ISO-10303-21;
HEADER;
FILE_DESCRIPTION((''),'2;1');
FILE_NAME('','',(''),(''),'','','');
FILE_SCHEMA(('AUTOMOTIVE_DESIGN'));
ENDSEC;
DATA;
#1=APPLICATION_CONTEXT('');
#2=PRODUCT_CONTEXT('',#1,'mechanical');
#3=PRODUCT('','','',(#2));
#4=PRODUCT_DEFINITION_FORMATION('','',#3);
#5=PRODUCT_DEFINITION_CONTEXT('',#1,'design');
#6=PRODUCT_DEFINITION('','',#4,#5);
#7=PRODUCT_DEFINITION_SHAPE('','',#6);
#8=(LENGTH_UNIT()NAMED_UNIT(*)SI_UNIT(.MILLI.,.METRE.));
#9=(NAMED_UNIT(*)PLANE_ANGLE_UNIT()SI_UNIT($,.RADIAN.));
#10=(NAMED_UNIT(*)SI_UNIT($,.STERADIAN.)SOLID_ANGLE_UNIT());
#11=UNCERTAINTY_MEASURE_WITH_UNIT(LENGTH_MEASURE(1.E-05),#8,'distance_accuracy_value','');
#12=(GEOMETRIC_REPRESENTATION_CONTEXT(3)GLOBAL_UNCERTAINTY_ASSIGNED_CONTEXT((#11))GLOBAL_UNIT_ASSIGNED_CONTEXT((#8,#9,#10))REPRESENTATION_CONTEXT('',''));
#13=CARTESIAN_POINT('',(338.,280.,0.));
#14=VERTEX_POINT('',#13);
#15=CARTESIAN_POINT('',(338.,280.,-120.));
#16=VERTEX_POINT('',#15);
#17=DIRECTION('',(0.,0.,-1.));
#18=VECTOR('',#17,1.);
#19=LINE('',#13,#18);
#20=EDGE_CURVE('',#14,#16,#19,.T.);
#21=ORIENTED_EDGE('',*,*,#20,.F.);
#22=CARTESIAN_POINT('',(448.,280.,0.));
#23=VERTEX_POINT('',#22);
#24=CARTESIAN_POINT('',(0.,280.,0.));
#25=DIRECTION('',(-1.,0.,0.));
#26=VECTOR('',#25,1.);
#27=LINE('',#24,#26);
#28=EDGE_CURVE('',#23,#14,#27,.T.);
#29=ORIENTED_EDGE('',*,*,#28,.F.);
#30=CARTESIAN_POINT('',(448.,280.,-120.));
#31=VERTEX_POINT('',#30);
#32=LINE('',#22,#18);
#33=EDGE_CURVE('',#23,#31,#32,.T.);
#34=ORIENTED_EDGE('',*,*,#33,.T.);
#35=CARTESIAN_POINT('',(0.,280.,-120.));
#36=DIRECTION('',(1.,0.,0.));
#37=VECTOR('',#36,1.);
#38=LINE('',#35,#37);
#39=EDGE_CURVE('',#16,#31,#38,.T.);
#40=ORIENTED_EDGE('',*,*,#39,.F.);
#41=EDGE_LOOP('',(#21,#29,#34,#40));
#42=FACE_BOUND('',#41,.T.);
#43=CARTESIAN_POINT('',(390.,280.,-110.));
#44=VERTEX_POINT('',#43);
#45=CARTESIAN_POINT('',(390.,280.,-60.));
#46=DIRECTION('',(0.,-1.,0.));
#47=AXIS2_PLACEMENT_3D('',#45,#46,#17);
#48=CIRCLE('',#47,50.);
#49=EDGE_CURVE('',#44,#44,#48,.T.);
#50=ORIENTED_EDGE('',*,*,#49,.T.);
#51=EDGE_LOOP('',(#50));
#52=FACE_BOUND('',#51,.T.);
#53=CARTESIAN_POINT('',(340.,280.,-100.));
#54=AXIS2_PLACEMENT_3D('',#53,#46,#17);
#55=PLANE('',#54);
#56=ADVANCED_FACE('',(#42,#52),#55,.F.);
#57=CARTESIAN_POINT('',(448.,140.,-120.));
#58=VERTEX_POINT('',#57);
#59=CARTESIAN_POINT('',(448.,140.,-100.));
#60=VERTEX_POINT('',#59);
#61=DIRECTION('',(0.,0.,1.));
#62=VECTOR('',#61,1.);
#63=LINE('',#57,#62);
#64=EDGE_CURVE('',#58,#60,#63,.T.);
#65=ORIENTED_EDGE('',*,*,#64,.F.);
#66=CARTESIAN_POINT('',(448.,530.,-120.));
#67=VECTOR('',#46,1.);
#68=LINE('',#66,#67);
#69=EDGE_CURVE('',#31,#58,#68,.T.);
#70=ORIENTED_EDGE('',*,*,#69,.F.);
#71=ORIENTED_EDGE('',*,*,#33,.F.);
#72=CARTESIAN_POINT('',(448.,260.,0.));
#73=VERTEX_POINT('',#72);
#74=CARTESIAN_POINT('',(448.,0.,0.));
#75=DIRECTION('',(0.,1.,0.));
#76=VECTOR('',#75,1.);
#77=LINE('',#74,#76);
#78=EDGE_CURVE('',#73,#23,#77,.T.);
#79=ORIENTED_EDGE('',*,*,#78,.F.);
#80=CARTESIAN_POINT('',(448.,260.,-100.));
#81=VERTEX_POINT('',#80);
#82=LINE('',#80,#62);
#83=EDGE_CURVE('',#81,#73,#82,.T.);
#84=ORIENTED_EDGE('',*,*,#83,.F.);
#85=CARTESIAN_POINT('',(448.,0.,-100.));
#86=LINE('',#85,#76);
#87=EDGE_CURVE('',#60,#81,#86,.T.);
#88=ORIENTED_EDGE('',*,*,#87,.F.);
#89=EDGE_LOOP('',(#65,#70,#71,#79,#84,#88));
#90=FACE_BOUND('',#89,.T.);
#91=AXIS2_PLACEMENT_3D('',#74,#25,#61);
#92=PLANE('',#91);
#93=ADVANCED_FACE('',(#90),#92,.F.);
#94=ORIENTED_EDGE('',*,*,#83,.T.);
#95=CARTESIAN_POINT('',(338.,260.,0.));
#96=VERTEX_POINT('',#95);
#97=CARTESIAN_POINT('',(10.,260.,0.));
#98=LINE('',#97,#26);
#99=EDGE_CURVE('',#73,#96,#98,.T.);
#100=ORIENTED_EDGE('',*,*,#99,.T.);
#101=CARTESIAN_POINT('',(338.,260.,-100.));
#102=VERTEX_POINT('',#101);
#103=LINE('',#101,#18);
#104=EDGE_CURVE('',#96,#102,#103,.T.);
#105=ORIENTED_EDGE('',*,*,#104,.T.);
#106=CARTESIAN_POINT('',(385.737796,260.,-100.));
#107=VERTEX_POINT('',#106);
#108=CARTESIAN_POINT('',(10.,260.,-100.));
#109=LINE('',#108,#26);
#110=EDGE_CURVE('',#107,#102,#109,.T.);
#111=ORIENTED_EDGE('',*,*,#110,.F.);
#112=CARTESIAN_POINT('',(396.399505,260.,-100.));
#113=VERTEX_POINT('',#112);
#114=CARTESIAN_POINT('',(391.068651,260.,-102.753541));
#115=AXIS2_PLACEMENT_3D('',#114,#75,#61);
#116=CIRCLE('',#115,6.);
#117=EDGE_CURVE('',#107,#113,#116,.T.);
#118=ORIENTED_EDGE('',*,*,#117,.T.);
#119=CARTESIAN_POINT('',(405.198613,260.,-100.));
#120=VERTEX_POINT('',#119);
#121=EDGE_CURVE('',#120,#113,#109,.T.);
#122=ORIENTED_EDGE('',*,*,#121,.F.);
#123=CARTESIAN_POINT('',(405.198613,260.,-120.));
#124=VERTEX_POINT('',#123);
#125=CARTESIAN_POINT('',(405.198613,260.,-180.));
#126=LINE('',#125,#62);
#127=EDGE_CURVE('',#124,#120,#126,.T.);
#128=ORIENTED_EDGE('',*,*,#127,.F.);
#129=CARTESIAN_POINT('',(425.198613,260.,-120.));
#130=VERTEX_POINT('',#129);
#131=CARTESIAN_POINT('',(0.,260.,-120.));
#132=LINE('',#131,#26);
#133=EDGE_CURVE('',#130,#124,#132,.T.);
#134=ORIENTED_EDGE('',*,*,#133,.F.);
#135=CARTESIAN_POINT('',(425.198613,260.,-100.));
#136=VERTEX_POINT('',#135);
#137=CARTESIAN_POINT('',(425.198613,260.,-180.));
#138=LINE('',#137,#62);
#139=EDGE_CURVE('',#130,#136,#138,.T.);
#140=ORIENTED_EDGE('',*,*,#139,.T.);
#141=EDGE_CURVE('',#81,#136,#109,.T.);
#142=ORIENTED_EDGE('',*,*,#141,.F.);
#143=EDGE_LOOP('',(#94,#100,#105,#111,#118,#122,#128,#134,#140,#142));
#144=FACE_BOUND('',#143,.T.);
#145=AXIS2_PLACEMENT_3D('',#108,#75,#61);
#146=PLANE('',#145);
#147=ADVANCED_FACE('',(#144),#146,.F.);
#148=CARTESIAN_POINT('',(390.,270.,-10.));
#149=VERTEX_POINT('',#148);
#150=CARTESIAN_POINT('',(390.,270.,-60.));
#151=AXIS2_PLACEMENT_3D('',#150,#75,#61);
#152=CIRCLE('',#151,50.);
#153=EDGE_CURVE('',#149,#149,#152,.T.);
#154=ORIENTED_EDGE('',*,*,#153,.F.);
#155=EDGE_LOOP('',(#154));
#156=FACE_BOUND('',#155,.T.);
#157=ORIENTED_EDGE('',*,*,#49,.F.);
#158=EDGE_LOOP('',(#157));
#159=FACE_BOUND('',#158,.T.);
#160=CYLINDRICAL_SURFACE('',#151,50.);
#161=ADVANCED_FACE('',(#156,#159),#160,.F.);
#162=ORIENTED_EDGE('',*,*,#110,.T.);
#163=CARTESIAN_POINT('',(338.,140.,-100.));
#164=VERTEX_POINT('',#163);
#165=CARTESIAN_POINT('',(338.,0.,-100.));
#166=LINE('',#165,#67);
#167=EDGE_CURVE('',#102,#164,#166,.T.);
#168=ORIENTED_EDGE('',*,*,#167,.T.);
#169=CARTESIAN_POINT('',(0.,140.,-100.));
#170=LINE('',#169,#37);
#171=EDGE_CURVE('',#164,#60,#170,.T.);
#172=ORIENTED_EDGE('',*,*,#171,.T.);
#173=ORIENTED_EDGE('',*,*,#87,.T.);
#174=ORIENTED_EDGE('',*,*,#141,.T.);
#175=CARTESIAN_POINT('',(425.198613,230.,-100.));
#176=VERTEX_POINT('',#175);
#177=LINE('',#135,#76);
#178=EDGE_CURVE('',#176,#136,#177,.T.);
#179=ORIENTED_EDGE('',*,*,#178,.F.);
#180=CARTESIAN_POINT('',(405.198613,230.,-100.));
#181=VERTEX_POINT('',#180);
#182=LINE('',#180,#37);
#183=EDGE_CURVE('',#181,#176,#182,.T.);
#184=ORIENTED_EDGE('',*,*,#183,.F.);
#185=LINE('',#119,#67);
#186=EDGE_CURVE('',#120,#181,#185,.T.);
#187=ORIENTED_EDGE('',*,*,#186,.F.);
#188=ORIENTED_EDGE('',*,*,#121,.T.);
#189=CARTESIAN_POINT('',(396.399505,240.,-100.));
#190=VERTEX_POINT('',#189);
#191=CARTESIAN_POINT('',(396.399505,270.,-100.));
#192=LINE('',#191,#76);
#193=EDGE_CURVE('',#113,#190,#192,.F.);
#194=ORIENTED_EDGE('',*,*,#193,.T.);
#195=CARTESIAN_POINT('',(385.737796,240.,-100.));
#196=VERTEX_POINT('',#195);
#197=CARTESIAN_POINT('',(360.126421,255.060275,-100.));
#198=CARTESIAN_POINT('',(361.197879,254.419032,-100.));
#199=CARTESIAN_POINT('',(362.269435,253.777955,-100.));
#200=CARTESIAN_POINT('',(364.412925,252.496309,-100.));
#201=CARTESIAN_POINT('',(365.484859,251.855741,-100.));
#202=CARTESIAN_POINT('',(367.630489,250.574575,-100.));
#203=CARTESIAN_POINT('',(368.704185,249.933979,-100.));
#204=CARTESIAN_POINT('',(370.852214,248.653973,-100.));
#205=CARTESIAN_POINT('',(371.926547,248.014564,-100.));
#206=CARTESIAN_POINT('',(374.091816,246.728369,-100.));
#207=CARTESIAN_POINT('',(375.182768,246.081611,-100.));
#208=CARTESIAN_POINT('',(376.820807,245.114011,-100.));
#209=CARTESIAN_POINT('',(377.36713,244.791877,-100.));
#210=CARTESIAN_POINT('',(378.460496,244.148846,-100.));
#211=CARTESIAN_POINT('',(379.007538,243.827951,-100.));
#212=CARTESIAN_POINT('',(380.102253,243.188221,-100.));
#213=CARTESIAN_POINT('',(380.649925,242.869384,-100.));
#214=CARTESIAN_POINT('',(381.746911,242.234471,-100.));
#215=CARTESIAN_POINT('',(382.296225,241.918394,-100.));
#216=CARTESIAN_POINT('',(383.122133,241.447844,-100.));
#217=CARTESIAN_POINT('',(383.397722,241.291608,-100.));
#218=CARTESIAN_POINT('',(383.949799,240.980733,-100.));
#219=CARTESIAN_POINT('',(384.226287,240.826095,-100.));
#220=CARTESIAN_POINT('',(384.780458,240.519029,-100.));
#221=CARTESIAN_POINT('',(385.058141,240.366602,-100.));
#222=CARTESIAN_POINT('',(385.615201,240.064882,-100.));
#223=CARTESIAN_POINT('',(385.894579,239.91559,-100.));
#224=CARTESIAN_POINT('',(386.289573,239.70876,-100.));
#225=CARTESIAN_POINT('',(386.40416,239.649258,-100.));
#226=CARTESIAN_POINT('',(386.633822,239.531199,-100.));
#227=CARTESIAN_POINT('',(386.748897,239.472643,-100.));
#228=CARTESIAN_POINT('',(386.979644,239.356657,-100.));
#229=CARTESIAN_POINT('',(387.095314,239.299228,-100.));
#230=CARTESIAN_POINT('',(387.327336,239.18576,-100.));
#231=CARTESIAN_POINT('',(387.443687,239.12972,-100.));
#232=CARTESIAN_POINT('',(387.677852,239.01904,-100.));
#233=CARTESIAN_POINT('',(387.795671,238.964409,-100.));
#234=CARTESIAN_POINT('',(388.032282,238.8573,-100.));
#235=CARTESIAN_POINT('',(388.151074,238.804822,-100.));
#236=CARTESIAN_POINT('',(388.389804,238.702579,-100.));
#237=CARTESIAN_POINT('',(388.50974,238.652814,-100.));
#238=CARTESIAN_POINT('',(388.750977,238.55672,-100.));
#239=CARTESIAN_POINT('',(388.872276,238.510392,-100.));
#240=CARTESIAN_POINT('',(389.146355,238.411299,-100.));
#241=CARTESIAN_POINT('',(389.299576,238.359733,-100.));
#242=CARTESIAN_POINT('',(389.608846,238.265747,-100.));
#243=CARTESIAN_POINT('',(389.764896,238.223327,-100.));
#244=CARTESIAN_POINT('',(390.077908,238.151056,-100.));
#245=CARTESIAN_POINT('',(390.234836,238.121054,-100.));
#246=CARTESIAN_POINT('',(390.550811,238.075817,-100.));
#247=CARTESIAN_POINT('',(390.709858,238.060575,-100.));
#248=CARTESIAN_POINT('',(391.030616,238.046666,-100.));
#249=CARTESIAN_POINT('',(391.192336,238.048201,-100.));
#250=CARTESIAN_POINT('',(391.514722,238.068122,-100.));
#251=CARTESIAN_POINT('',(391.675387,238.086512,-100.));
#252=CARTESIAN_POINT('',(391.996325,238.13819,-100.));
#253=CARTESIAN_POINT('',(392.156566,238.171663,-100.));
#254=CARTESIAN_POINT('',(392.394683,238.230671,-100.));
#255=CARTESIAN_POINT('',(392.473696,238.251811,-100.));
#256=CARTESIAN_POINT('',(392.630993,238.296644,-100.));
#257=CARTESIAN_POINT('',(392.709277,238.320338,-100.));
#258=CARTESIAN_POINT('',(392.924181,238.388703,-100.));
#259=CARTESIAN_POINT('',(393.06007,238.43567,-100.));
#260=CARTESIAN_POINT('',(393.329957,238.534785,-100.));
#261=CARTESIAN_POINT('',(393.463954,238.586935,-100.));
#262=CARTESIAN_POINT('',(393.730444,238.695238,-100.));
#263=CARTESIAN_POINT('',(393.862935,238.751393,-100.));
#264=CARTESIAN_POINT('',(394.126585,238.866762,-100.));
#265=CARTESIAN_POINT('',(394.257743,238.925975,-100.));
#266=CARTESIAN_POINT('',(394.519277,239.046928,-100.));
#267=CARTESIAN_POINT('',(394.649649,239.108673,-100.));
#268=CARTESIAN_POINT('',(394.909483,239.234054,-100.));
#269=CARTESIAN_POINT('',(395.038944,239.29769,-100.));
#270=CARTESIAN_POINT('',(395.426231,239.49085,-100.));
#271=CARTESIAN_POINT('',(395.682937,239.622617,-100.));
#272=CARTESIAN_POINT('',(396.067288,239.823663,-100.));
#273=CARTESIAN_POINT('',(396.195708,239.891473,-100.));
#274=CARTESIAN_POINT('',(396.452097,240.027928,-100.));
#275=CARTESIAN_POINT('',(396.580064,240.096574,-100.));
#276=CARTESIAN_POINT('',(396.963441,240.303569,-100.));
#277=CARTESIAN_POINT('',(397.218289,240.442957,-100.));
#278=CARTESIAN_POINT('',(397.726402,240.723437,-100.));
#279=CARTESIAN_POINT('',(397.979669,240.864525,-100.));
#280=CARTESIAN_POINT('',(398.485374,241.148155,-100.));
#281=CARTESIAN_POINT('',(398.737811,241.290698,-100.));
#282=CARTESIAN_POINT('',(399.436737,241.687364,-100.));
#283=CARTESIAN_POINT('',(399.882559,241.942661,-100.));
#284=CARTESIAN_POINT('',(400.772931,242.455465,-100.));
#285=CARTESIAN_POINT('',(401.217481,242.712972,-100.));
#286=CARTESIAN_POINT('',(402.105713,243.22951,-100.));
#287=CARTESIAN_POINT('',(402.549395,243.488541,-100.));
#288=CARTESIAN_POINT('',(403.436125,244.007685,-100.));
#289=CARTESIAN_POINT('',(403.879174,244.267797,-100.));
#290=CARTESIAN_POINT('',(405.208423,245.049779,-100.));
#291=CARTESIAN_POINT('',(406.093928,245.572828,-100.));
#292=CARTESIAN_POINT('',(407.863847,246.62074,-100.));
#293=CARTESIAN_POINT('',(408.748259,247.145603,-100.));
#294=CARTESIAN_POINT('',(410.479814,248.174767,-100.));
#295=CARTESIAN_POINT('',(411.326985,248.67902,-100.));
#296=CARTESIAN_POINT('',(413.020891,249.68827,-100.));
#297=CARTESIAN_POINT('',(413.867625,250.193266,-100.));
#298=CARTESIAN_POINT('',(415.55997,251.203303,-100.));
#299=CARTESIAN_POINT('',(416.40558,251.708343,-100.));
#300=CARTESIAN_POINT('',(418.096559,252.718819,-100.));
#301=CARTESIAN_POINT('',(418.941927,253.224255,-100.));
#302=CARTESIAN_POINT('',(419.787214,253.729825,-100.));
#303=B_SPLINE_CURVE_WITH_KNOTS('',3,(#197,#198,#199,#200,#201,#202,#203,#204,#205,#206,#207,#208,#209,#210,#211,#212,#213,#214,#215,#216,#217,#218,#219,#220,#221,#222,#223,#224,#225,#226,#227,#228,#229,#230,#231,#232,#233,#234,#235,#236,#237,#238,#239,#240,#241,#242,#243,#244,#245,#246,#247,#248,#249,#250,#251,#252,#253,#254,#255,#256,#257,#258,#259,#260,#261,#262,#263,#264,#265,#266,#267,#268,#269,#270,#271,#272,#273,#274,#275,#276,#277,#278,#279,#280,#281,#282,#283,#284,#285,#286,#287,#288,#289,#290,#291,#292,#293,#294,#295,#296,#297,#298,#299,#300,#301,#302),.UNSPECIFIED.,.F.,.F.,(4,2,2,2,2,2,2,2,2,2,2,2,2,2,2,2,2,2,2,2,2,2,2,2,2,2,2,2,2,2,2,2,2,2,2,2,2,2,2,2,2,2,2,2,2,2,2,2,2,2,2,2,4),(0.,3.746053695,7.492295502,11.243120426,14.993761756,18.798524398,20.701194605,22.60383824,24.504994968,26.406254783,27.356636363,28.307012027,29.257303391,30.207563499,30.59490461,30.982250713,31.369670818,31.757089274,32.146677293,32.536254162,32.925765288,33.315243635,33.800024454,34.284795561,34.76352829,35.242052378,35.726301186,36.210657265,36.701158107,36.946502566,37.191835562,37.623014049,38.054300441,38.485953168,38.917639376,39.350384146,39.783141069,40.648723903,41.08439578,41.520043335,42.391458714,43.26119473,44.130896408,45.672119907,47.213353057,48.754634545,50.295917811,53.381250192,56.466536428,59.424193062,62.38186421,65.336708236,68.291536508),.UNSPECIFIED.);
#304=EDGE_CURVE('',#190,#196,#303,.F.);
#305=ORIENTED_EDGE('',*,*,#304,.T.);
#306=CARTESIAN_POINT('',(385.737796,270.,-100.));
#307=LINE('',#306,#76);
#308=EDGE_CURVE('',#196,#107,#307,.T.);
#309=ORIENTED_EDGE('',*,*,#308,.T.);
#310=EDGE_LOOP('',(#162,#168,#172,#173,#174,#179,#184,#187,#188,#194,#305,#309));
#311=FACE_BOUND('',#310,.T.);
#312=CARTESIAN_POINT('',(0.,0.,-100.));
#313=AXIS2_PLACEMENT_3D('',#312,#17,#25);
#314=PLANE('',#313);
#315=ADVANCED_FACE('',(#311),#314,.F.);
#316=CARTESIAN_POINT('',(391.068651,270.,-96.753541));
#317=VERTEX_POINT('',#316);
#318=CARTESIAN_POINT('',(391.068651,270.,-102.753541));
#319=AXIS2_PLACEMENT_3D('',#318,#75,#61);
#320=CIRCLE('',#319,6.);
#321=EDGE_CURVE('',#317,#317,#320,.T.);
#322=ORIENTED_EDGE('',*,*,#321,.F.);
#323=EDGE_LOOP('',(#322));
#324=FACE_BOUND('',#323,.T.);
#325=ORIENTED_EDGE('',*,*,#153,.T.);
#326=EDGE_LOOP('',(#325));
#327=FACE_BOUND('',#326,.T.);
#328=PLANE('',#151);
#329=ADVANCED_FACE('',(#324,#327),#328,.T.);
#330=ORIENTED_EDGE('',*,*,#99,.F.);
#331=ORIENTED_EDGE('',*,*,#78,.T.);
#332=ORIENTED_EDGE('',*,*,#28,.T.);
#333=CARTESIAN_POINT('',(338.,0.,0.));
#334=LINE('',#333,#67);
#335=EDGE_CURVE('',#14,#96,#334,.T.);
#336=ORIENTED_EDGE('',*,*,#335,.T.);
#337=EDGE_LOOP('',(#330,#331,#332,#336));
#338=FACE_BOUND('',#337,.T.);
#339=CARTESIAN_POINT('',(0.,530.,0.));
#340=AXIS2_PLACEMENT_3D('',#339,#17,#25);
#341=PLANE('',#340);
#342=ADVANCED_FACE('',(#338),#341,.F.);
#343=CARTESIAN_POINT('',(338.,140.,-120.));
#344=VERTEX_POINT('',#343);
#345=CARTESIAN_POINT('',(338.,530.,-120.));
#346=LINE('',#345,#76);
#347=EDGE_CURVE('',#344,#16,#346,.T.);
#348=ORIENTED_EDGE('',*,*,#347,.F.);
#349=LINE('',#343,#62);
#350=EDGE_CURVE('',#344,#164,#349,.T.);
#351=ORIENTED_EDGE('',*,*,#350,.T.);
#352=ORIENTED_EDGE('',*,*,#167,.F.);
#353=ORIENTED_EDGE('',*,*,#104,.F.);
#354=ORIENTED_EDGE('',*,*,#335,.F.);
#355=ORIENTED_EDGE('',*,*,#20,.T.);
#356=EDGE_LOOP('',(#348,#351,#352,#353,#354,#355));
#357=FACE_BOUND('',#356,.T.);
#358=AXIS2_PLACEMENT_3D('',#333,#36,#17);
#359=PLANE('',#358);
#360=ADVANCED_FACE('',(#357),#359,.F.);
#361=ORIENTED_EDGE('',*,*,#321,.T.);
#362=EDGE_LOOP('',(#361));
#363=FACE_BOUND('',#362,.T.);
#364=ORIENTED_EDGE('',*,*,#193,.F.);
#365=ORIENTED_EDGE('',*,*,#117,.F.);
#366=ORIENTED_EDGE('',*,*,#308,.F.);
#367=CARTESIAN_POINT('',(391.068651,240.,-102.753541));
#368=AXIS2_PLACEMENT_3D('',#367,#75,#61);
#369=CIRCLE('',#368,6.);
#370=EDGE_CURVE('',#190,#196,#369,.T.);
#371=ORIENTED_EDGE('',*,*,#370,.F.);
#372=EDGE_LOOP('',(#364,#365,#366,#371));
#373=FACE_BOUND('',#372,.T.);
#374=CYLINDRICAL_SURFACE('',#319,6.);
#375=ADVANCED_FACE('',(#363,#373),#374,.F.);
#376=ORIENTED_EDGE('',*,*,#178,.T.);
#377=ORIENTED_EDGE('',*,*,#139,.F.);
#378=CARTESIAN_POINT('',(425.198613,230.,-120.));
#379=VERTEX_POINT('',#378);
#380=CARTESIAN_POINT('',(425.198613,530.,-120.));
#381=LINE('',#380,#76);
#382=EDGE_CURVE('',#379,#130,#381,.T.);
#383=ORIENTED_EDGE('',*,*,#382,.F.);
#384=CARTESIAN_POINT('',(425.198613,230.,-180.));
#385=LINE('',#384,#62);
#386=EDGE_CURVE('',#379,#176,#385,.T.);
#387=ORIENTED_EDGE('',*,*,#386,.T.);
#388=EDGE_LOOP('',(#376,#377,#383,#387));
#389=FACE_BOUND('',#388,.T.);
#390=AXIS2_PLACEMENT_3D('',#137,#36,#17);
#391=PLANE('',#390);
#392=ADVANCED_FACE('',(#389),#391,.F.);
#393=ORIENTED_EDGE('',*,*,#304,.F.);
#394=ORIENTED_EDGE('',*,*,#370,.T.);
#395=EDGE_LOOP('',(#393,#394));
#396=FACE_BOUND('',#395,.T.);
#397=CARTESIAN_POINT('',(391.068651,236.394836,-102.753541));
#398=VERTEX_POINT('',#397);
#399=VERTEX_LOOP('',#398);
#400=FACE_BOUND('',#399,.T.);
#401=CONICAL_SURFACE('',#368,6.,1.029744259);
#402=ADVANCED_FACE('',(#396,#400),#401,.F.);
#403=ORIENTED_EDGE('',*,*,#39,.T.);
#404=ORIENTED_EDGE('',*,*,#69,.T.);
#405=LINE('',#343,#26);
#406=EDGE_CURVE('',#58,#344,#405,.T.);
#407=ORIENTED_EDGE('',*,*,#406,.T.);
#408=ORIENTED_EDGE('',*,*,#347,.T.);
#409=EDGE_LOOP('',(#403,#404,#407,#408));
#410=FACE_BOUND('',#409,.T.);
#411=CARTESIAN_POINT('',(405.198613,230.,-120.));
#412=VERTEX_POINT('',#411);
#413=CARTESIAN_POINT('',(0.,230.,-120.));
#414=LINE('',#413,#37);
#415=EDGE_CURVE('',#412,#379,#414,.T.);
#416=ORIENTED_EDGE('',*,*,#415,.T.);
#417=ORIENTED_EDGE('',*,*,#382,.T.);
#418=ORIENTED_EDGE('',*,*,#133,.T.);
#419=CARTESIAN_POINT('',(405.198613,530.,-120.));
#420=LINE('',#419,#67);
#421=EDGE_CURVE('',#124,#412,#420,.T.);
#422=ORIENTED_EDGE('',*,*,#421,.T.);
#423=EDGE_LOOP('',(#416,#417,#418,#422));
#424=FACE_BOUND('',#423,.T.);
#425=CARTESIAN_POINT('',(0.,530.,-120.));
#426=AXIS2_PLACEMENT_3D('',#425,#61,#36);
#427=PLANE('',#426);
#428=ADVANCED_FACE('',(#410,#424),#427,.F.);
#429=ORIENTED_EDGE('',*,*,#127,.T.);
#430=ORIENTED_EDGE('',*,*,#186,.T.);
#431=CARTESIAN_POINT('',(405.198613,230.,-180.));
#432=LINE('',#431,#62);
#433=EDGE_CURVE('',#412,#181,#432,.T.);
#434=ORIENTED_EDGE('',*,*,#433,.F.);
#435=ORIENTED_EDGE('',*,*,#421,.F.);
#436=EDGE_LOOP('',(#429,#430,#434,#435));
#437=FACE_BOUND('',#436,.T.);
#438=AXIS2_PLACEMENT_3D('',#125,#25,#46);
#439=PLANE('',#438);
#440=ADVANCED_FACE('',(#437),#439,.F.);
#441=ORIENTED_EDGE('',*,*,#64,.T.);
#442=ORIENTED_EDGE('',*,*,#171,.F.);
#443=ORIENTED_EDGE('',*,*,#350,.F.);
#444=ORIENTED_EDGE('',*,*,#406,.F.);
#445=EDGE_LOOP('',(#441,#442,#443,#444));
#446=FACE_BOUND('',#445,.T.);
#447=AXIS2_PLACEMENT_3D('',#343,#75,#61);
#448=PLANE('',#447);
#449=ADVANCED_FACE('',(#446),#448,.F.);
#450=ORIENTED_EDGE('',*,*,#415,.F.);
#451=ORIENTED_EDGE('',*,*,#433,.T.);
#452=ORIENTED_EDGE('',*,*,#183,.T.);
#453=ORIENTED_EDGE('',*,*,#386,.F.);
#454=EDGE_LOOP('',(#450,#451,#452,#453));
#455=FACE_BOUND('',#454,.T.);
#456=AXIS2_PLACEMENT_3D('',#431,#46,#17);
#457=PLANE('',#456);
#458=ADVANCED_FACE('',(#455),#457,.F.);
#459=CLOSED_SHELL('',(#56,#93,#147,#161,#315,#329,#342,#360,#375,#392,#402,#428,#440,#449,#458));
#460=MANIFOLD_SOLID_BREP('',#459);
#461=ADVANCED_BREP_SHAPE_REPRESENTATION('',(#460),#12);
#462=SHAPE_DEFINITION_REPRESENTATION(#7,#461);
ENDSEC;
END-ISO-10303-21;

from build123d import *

# Parameters (mm, degrees)
SKETCH1_W                      = 670
SKETCH1_H                      = 120
BOSS_EXTRUDE1_DEPTH            = 530
SKETCH2_W                      = 100
SKETCH2_H                      = 200
SKETCH2_W_2                    = 650
SKETCH2_H_2                    = 250
CUT_EXTRUDE1_DEPTH             = 100
SKETCH3_R                      = 50
CUT_EXTRUDE2_DEPTH             = 260
F_12_0_12_DIAMETER_HOLE2_D     = 12
F_12_0_12_DIAMETER_HOLE2_DEPTH = 30
F_12_0_12_DIAMETER_HOLE2_TIP   = 3.605163714
SKETCH8_W                      = 650
SKETCH8_H                      = 50
BOSS_EXTRUDE2_DEPTH            = 5
SKETCH9_W                      = 10
SKETCH9_H                      = 250
CUT_EXTRUDE3_DEPTH             = 717
CUT_EXTRUDE4_DEPTH             = 5
SKETCH11_W                     = 10
SKETCH11_H                     = 100
BOSS_EXTRUDE3_DEPTH            = 78
BOSS_EXTRUDE3_2_DEPTH          = 78
BOSS_EXTRUDE3_3_DEPTH          = 78
SKETCH12_W                     = 20
SKETCH12_H                     = 30
CUT_EXTRUDE5_DEPTH             = 80
SKETCH15_W                     = 30
SKETCH15_H                     = 23.536156656
SKETCH15_H_2                   = 28.986603691
CUT_EXTRUDE7_DEPTH             = 35
SHELL1_T                       = -3
SKETCH16_W                     = 14
SKETCH16_H                     = 14
CUT_EXTRUDE8_DEPTH             = 35
SKETCH17_W                     = 5.729882812
SKETCH17_H                     = 17.428393554
SKETCH17_W_2                   = 13.369726562
SKETCH17_H_2                   = 3.342431641
BOSS_EXTRUDE4_DEPTH            = 5
CUT_EXTRUDE10_DEPTH            = 863.670273187
CUT_EXTRUDE10_DEPTH_BACK       = 863.670273187
SKETCH18_W                     = 670
SKETCH18_H                     = 250
CUT_EXTRUDE11_DEPTH            = 737.002717386
CUT_EXTRUDE11_DEPTH_BACK       = 737.002717386
SKETCH19_W                     = 222
SKETCH19_H                     = 280
SKETCH19_W_2                   = 338
CUT_EXTRUDE12_DEPTH            = 538.683922021
CUT_EXTRUDE12_DEPTH_BACK       = 538.683922021
SKETCH20_W                     = 110
SKETCH20_H                     = 140


with BuildPart() as part:
    # Sketch1 → Boss-Extrude1 (new body)
    with BuildSketch(Plane(origin=(0, 0, 0), x_dir=(1, 0, 0), z_dir=(0, 1, 0))):
        with Locations((335, 60)):
            Rectangle(SKETCH1_W, SKETCH1_H)
    extrude(amount=BOSS_EXTRUDE1_DEPTH)

    # Sketch2 → Cut-Extrude1 (cut)
    with BuildSketch(Plane.XY):
        with Locations((60, 380)):
            Rectangle(SKETCH2_W, SKETCH2_H)
        with Locations((170, 380)):
            Rectangle(SKETCH2_W, SKETCH2_H)
        with Locations((280, 380)):
            Rectangle(SKETCH2_W, SKETCH2_H)
        with Locations((390, 380)):
            Rectangle(SKETCH2_W, SKETCH2_H)
        with Locations((500, 380)):
            Rectangle(SKETCH2_W, SKETCH2_H)
        with Locations((610, 380)):
            Rectangle(SKETCH2_W, SKETCH2_H)
        with Locations((335, 135)):
            Rectangle(SKETCH2_W_2, SKETCH2_H_2)
    extrude(amount=-CUT_EXTRUDE1_DEPTH, mode=Mode.SUBTRACT)

    # Sketch3 → Cut-Extrude2 (cut)
    with BuildSketch(Plane(origin=(0, 530, 0), x_dir=(1, 0, 0), z_dir=(0, 1, 0))):
        with Locations((60, 60)):
            Circle(SKETCH3_R)
        with Locations((170, 60)):
            Circle(SKETCH3_R)
        with Locations((280, 60)):
            Circle(SKETCH3_R)
        with Locations((390, 60)):
            Circle(SKETCH3_R)
        with Locations((500, 60)):
            Circle(SKETCH3_R)
        with Locations((610, 60)):
            Circle(SKETCH3_R)
    extrude(amount=-CUT_EXTRUDE2_DEPTH, mode=Mode.SUBTRACT)

    # Ø12.0 (12) Diameter Hole2
    with Locations(Plane(origin=(59.704642413, 270, -102.411697903), x_dir=(0, 0, 1), z_dir=(0, 1, 0))):
        with Locations((0, 0), (-0.195888006, 111.8520513), (0.014838595, 221.167624818), (-0.341843303, 331.364008353), (0.657723149, 441.008646429), (1.288998006, 549.811854685)):
            Hole(F_12_0_12_DIAMETER_HOLE2_D / 2, depth=F_12_0_12_DIAMETER_HOLE2_DEPTH)
            with Locations((0, 0, -(F_12_0_12_DIAMETER_HOLE2_DEPTH + F_12_0_12_DIAMETER_HOLE2_TIP / 2))):  # 118° drill point
                Cone(0, F_12_0_12_DIAMETER_HOLE2_D / 2, F_12_0_12_DIAMETER_HOLE2_TIP, mode=Mode.SUBTRACT)

    # Sketch8 → Boss-Extrude2 (add)
    with BuildSketch(Plane.XY):
        with Locations((335, 305)):
            Rectangle(SKETCH8_W, SKETCH8_H)
    extrude(amount=-BOSS_EXTRUDE2_DEPTH)

    # Sketch9 → Cut-Extrude3 (cut)
    with BuildSketch(Plane(origin=(670, 0, 0), x_dir=(0, 0, -1), z_dir=(1, 0, 0))):
        with Locations((15, 135)):
            Rectangle(SKETCH9_W, SKETCH9_H)
    extrude(amount=-CUT_EXTRUDE3_DEPTH, mode=Mode.SUBTRACT)

    # Sketch10 → Cut-Extrude4 (cut)
    with BuildSketch(Plane(origin=(0, 10, 0), x_dir=(1, 0, 0), z_dir=(0, 1, 0))):
        Polygon((365, 61.943560596), (350, 87.924322709), (320, 87.924322709), (305, 61.943560596), (320, 35.962798482), (350, 35.962798482), align=None)
    extrude(amount=-CUT_EXTRUDE4_DEPTH, mode=Mode.SUBTRACT)

    # Sketch12 → Cut-Extrude5 (cut)
    with BuildSketch(Plane.XY.offset(-100)):
        with Locations((85.198613037, 245)):
            Rectangle(SKETCH12_W, SKETCH12_H)
        with Locations((195.198613037, 245)):
            Rectangle(SKETCH12_W, SKETCH12_H)
        with Locations((305.198613037, 245)):
            Rectangle(SKETCH12_W, SKETCH12_H)
        with Locations((415.198613037, 245)):
            Rectangle(SKETCH12_W, SKETCH12_H)
        with Locations((525.198613037, 245)):
            Rectangle(SKETCH12_W, SKETCH12_H)
        with Locations((635.198613037, 245)):
            Rectangle(SKETCH12_W, SKETCH12_H)
    extrude(amount=-CUT_EXTRUDE5_DEPTH, mode=Mode.SUBTRACT)

    # Sketch17 → Boss-Extrude4 (add)
    # profile 1 of 9: a face of its own
    with BuildSketch(Plane.XY):
        with BuildLine():
            Line((527.508830928, 289.835452458), (527.508830928, 307.263846012))
            Line((527.508830928, 307.263846012), (534.861434459, 307.263846012))
            add(Edge.make_bspline(
                [(534.861434459, 307.263846012), (535.181337774, 307.258256848), (535.803061116, 307.24739446), (536.703508491, 307.139069344), (537.544992916, 306.975202489), (538.325061607, 306.737496792), (539.040841948, 306.426020155), (539.698044515, 306.051894954), (540.290333057, 305.605079277), (540.822348212, 305.090232636), (541.284521701, 304.502523111), (541.692171296, 303.852565801), (542.030284458, 303.129762281), (542.309377095, 302.341316546), (542.5243908, 301.484161689), (542.679660381, 300.560045938), (542.773357357, 299.567500804), (542.783368073, 298.883107022), (542.788518428, 298.530997273)],
                knots=[0, 0, 0, 0, 1.135059408, 2.20595691, 3.214417064, 4.174978569, 5.094187092, 5.980001006, 6.853065862, 7.720814779, 8.600404634, 9.50058483, 10.438414914, 11.426825708, 12.465239141, 13.571113463, 14.750376389, 16, 16, 16, 16], degree=3))
            add(Edge.make_bspline(
                [(542.788518428, 298.530997273), (542.781740751, 298.180151665), (542.768592871, 297.499553336), (542.676885992, 296.511518461), (542.516733301, 295.591080531), (542.296748778, 294.736450427), (542.003051046, 293.953120444), (541.654236167, 293.233205539), (541.233025793, 292.585291498), (540.753136904, 292.000029304), (540.204772188, 291.484681411), (539.587651059, 291.044279297), (538.910779309, 290.668464036), (538.169670382, 290.361903209), (537.364073889, 290.124869172), (536.495133477, 289.954199984), (535.562644449, 289.853487388), (534.920131033, 289.841584621), (534.58911581, 289.835452458)],
                knots=[0, 0, 0, 0, 1.228418252, 2.382983832, 3.470276728, 4.496757894, 5.468023682, 6.394867725, 7.292157164, 8.167372942, 9.039072913, 9.918728341, 10.815246345, 11.744296628, 12.720973084, 13.750736166, 14.841206188, 16, 16, 16, 16], degree=3))
            Line((534.58911581, 289.835452458), (527.508830928, 289.835452458))
        make_face()
        with BuildLine():
            Line((533.238713741, 291.745413395), (534.048208904, 291.745413395))
            add(Edge.make_bspline(
                [(534.048208904, 291.745413395), (534.172894012, 291.749291978), (534.413033311, 291.756761998), (534.758676231, 291.825976613), (535.075745017, 291.938271137), (535.365749176, 292.094802589), (535.623404602, 292.300450923), (535.848862806, 292.551404902), (536.04776914, 292.844737637), (536.217685755, 293.190205032), (536.364284647, 293.596533622), (536.481764702, 294.076367921), (536.592118304, 294.630928744), (536.673672739, 295.265507643), (536.740044562, 295.978448886), (536.788346679, 296.768428292), (536.812018936, 297.636801208), (536.817188964, 298.241258393), (536.819890499, 298.55711002)],
                knots=[0, 0, 0, 0, 0.728710832, 1.403472396, 2.052289494, 2.690292559, 3.321919393, 3.970736491, 4.656696891, 5.388631723, 6.217040872, 7.17856157, 8.275589967, 9.523440737, 10.918935818, 12.463926104, 14.152268318, 16, 16, 16, 16], degree=3))
            add(Edge.make_bspline(
                [(536.819890499, 298.55711002), (536.8171426, 298.871715251), (536.811863063, 299.476166083), (536.7886758, 300.343334385), (536.739579947, 301.133216935), (536.674703848, 301.843934916), (536.589660404, 302.476324031), (536.488366458, 303.031681737), (536.362441588, 303.507627045), (536.222158727, 303.914921549), (536.050140993, 304.256514038), (535.858357073, 304.554097881), (535.62547107, 304.79746827), (535.36991257, 305.004888479), (535.079348843, 305.160875844), (534.761320266, 305.273944358), (534.414185903, 305.34216807), (534.172870641, 305.349893944), (534.048208904, 305.353885075)],
                knots=[0, 0, 0, 0, 1.842836665, 3.540640921, 5.080358154, 6.47765669, 7.719902824, 8.816971715, 9.781579111, 10.601733135, 11.334613876, 12.017393917, 12.666641099, 13.29908421, 13.937911793, 14.587567384, 15.270347425, 16, 16, 16, 16], degree=3))
            Line((534.048208904, 305.353885075), (533.238713741, 305.353885075))
            Line((533.238713741, 305.353885075), (533.238713741, 291.745413395))
        make_face(mode=Mode.SUBTRACT)
    # profile 2 of 9: a face of its own
    with BuildSketch(Plane.XY):
        with Locations((547.563420772, 298.549649235)):
            Rectangle(SKETCH17_W, SKETCH17_H)
    # profile 3 of 9: a face of its own
    with BuildSketch(Plane.XY):
        Polygon((564.514324092, 307.263846012), (564.514324092, 305.115139958), (558.545696163, 305.115139958), (558.545696163, 299.862747379), (563.559343624, 299.862747379), (563.559343624, 297.714041325), (558.545696163, 297.714041325), (558.545696163, 289.835452458), (552.81581335, 289.835452458), (552.81581335, 307.263846012), align=None)
    # profile 4 of 9: a face of its own
    with BuildSketch(Plane.XY):
        Polygon((577.645305538, 307.263846012), (577.645305538, 305.115139958), (571.676677608, 305.115139958), (571.676677608, 299.862747379), (576.690325069, 299.862747379), (576.690325069, 297.714041325), (571.676677608, 297.714041325), (571.676677608, 289.835452458), (565.946794795, 289.835452458), (565.946794795, 307.263846012), align=None)
    # profile 5 of 9: a face of its own
    with BuildSketch(Plane.XY):
        with Locations((584.330168819, 287.448001286)):
            Rectangle(SKETCH17_W_2, SKETCH17_H_2)
    # profile 6 of 9: a face of its own
    with BuildSketch(Plane.XY):
        with BuildLine():
            Line((605.578484249, 307.263846012), (605.578484249, 295.602639195))
            add(Edge.make_bspline(
                [(605.578484249, 295.602639195), (605.574209777, 295.35989389), (605.565919345, 294.889083964), (605.480877158, 294.20653885), (605.349958188, 293.569747554), (605.15926554, 292.978838165), (604.911867049, 292.436847071), (604.616163877, 291.936663973), (604.260702644, 291.487723021), (603.847299908, 291.08966617), (603.386881991, 290.731670113), (602.867295001, 290.425440037), (602.293741958, 290.168488385), (601.66690529, 289.960990771), (600.988052682, 289.797299786), (600.254912883, 289.679078851), (599.467035781, 289.60781007), (598.923618241, 289.60048219), (598.643684673, 289.59670734)],
                knots=[0, 0, 0, 0, 1.108173197, 2.149326602, 3.136215123, 4.073726706, 4.978516626, 5.852185058, 6.72141202, 7.584905625, 8.467554395, 9.379216169, 10.332422268, 11.332766067, 12.390653242, 13.518530507, 14.721707419, 16, 16, 16, 16], degree=3))
            add(Edge.make_bspline(
                [(598.643684673, 289.59670734), (598.373688491, 289.600411437), (597.851346557, 289.607577482), (597.093280473, 289.679448684), (596.387523889, 289.797736542), (595.733050135, 289.960122315), (595.130189942, 290.169220301), (594.579048171, 290.42623041), (594.078350789, 290.732835498), (593.633858028, 291.090104794), (593.234289459, 291.486851767), (592.899913678, 291.940746827), (592.609043638, 292.435866034), (592.375223767, 292.980322997), (592.191754821, 293.570441519), (592.063541006, 294.20666921), (591.983676196, 294.889343196), (591.974661767, 295.359932437), (591.970012569, 295.602639195)],
                knots=[0, 0, 0, 0, 1.258901956, 2.435505865, 3.547148904, 4.59359074, 5.576649289, 6.5183682, 7.424469602, 8.307507093, 9.172751023, 10.042627298, 10.928839176, 11.845659241, 12.799442865, 13.80597989, 14.868432463, 16, 16, 16, 16], degree=3))
            Line((591.970012569, 295.602639195), (591.970012569, 307.263846012))
            Line((591.970012569, 307.263846012), (597.699895381, 307.263846012))
            Line((597.699895381, 307.263846012), (597.699895381, 295.457153889))
            add(Edge.make_bspline(
                [(597.699895381, 295.457153889), (597.700816195, 295.287996189), (597.702584578, 294.963135903), (597.729908723, 294.499051493), (597.768241004, 294.079064133), (597.828226169, 293.705517832), (597.90066041, 293.377063412), (597.989882091, 293.09281535), (598.094998068, 292.852496478), (598.225239063, 292.654232043), (598.380826623, 292.495135011), (598.55368342, 292.353231761), (598.757556996, 292.238543846), (598.987648905, 292.146224908), (599.243380948, 292.070549638), (599.526120553, 292.020376099), (599.83553351, 291.990763905), (600.049971942, 291.986424568), (600.161954402, 291.984158512)],
                knots=[0, 0, 0, 0, 1.622370975, 3.115695595, 4.458049099, 5.666011203, 6.742434742, 7.681714947, 8.519814998, 9.250928664, 9.942747364, 10.646898194, 11.389596108, 12.175933929, 13.021386247, 13.943159715, 14.925891993, 16, 16, 16, 16], degree=3))
            add(Edge.make_bspline(
                [(600.161954402, 291.984158512), (600.283927219, 291.987190593), (600.521124756, 291.993087005), (600.86597014, 292.03390861), (601.187714881, 292.103380086), (601.484890424, 292.205377303), (601.758665297, 292.332852529), (602.012761516, 292.484567923), (602.236391413, 292.674631152), (602.439076761, 292.888441291), (602.620738276, 293.128529789), (602.771757722, 293.399928575), (602.905501548, 293.697121508), (603.005823683, 294.025060118), (603.089837826, 294.379999499), (603.146989706, 294.763086929), (603.186210275, 295.174074524), (603.189394751, 295.457053988), (603.191033077, 295.602639195)],
                knots=[0, 0, 0, 0, 1.083870311, 2.107775948, 3.08105344, 4.003637981, 4.893545291, 5.761570557, 6.624657808, 7.49233129, 8.376387281, 9.291996285, 10.246843261, 11.267344133, 12.334180325, 13.486053461, 14.706643157, 16, 16, 16, 16], degree=3))
            Line((603.191033077, 295.602639195), (603.191033077, 307.263846012))
            Line((603.191033077, 307.263846012), (605.578484249, 307.263846012))
        make_face()
    # profile 7 of 9: a face of its own
    with BuildSketch(Plane.XY):
        with BuildLine():
            Line((619.731593227, 302.015183827), (616.739818477, 301.526502415))
            add(Edge.make_bspline(
                [(616.739818477, 301.526502415), (616.748849224, 301.670726223), (616.765660669, 301.939210177), (616.78429066, 302.312269209), (616.796668381, 302.625642376), (616.798628236, 302.814722915), (616.799504756, 302.899286839)],
                knots=[0, 0, 0, 0, 1.261802504, 2.348944521, 3.261585937, 4, 4, 4, 4], degree=3))
            add(Edge.make_bspline(
                [(616.799504756, 302.899286839), (616.798306068, 303.007660677), (616.795968139, 303.219033721), (616.750451916, 303.523894877), (616.694806916, 303.811547356), (616.604352699, 304.076787391), (616.488181329, 304.320314265), (616.348943917, 304.543955606), (616.184187178, 304.745078709), (615.995833421, 304.928129987), (615.778009957, 305.083200131), (615.536269472, 305.218702836), (615.269765326, 305.333844758), (614.978065514, 305.431346685), (614.660683072, 305.504624438), (614.319025281, 305.556776695), (613.952471696, 305.585673441), (613.699597795, 305.590260771), (613.568984889, 305.592630192)],
                knots=[0, 0, 0, 0, 1.079280541, 2.105035848, 3.067950317, 3.99715044, 4.889989748, 5.753421302, 6.617030865, 7.476358039, 8.364190572, 9.274590025, 10.235106994, 11.254473582, 12.337095886, 13.478601727, 14.697662529, 16, 16, 16, 16], degree=3))
            add(Edge.make_bspline(
                [(613.568984889, 305.592630192), (613.391954632, 305.58912286), (613.059112606, 305.582528579), (612.595688488, 305.495339748), (612.198743126, 305.361419257), (611.87165349, 305.163811893), (611.613188167, 304.909795747), (611.433841092, 304.593316589), (611.323009072, 304.224665915), (611.313400221, 303.959558324), (611.308367061, 303.820693775)],
                knots=[0, 0, 0, 0, 1.294917039, 2.43462794, 3.440028966, 4.347597256, 5.210608309, 6.06356377, 6.985685997, 8, 8, 8, 8], degree=3))
            add(Edge.make_bspline(
                [(611.308367061, 303.820693775), (611.317562032, 303.705133219), (611.336106628, 303.472068433), (611.47315858, 303.132808312), (611.695999602, 302.811560885), (612.009295906, 302.510664216), (612.404107796, 302.221967273), (612.884407504, 301.948533431), (613.450813789, 301.688189695), (613.862519081, 301.536023727), (614.080048656, 301.455624958)],
                knots=[0, 0, 0, 0, 0.716839541, 1.445735977, 2.240793036, 3.131329288, 4.131129903, 5.273471266, 6.559404876, 8, 8, 8, 8], degree=3))
            add(Edge.make_bspline(
                [(614.080048656, 301.455624958), (614.335934702, 301.364918412), (614.834564244, 301.188164095), (615.547657928, 300.88707802), (616.213068388, 300.5749594), (616.829579094, 300.246613346), (617.397833174, 299.90520698), (617.914851624, 299.544556457), (618.386199073, 299.173962102), (618.807001026, 298.783874588), (619.177995113, 298.378100064), (619.4958685, 297.952745357), (619.771807525, 297.51723103), (619.991113975, 297.061458502), (620.169645242, 296.594624218), (620.292698657, 296.11024444), (620.364288243, 295.609761088), (620.37516617, 295.270864226), (620.380681514, 295.099036213)],
                knots=[0, 0, 0, 0, 1.359488612, 2.649152603, 3.874964776, 5.039588756, 6.146130126, 7.193090393, 8.194917302, 9.146793662, 10.063845301, 10.944476293, 11.803344532, 12.641736646, 13.473440096, 14.302714936, 15.139439897, 16, 16, 16, 16], degree=3))
            add(Edge.make_bspline(
                [(620.380681514, 295.099036213), (620.374476075, 294.902306495), (620.362285176, 294.515820995), (620.280160209, 293.948630617), (620.138011896, 293.409496554), (619.938489338, 292.895972278), (619.681049879, 292.411946655), (619.366518754, 291.954381076), (618.996510229, 291.525099427), (618.5710008, 291.128381035), (618.102222518, 290.765302239), (617.587803957, 290.450854345), (617.034458515, 290.187092261), (616.444107988, 289.968993032), (615.81453624, 289.801373099), (615.145337453, 289.685291013), (614.438790193, 289.606619894), (613.954683001, 289.600062276), (613.70700941, 289.59670734)],
                knots=[0, 0, 0, 0, 0.972121714, 1.909782367, 2.824924061, 3.721832975, 4.62620438, 5.527836938, 6.46026819, 7.421000932, 8.398101015, 9.385579713, 10.394244048, 11.422703992, 12.491421888, 13.608778581, 14.776629625, 16, 16, 16, 16], degree=3))
            add(Edge.make_bspline(
                [(613.70700941, 289.59670734), (613.445745367, 289.599650312), (612.939893069, 289.605348413), (612.207608113, 289.66709241), (611.525297432, 289.760984454), (610.893395078, 289.899706116), (610.309273131, 290.072394336), (609.776099392, 290.288320955), (609.295310255, 290.547303481), (608.863217672, 290.843007892), (608.478306623, 291.175775461), (608.148120946, 291.551766865), (607.86942369, 291.967163224), (607.639947144, 292.421521488), (607.466477665, 292.917583541), (607.339164663, 293.449829748), (607.264537999, 294.021332449), (607.254747521, 294.414908557), (607.249700069, 294.617815586)],
                knots=[0, 0, 0, 0, 1.342201143, 2.598733168, 3.773451092, 4.878874364, 5.91991243, 6.900006476, 7.829142054, 8.72062616, 9.585588575, 10.436728592, 11.283829734, 12.149664931, 13.044964919, 13.977937424, 14.957531465, 16, 16, 16, 16], degree=3))
            add(Edge.make_bspline(
                [(607.249700069, 294.617815586), (607.250803815, 294.692425759), (607.253213998, 294.855347393), (607.260452266, 295.122772538), (607.275636683, 295.433682216), (607.29037174, 295.656130545), (607.298195171, 295.774237248)],
                knots=[0, 0, 0, 0, 0.773500207, 1.689044709, 2.77302154, 4, 4, 4, 4], degree=3))
            Line((607.298195171, 295.774237248), (610.36457777, 296.337526509))
            add(Edge.make_bspline(
                [(610.36457777, 296.337526509), (610.326952988, 296.136337493), (610.255606535, 295.754830366), (610.178678473, 295.21219969), (610.124206629, 294.733311493), (610.11767002, 294.435147371), (610.114641475, 294.297001835)],
                knots=[0, 0, 0, 0, 1.192988372, 2.262218769, 3.194850416, 4, 4, 4, 4], degree=3))
            add(Edge.make_bspline(
                [(610.114641475, 294.297001835), (610.116191817, 294.183708768), (610.119182568, 293.965156219), (610.159053378, 293.648552813), (610.215988606, 293.352999663), (610.302906772, 293.079707227), (610.411206928, 292.826307836), (610.544682453, 292.59538211), (610.704385489, 292.386485019), (610.887496571, 292.200099922), (611.094689168, 292.033628705), (611.327456494, 291.892756696), (611.58347653, 291.771733922), (611.864681562, 291.677479524), (612.167961721, 291.596080628), (612.497219749, 291.548235723), (612.849461228, 291.512043782), (613.092629543, 291.508500084), (613.218327999, 291.506668278)],
                knots=[0, 0, 0, 0, 1.135776692, 2.191015738, 3.19649269, 4.151244236, 5.061952528, 5.956281389, 6.819534407, 7.692823504, 8.571441916, 9.478554956, 10.416037156, 11.406231466, 12.450054172, 13.561596327, 14.739541482, 16, 16, 16, 16], degree=3))
            add(Edge.make_bspline(
                [(613.218327999, 291.506668278), (613.423996012, 291.510791273), (613.810619321, 291.518541853), (614.349272542, 291.616708407), (614.810575885, 291.768742445), (615.189785268, 291.991387532), (615.490778961, 292.278756613), (615.698005174, 292.637320004), (615.824813318, 293.05638326), (615.837728413, 293.355975238), (615.844524288, 293.513619419)],
                knots=[0, 0, 0, 0, 1.308765556, 2.460272085, 3.475015317, 4.388076298, 5.239673503, 6.095681635, 6.997954785, 8, 8, 8, 8], degree=3))
            add(Edge.make_bspline(
                [(615.844524288, 293.513619419), (615.833808824, 293.638242951), (615.811807312, 293.894126055), (615.644884004, 294.264515838), (615.382382362, 294.620631473), (615.016807277, 294.962984909), (614.551376589, 295.293471235), (613.986957743, 295.616730224), (613.322148235, 295.933112033), (612.83677959, 296.119639164), (612.580430889, 296.21815395)],
                knots=[0, 0, 0, 0, 0.667930748, 1.371427933, 2.146459016, 3.034714139, 4.04893387, 5.207327294, 6.525042705, 8, 8, 8, 8], degree=3))
            add(Edge.make_bspline(
                [(612.580430889, 296.21815395), (612.374354345, 296.29679374), (611.970646869, 296.450850434), (611.394079385, 296.713586304), (610.853066711, 296.987016804), (610.357486361, 297.288235735), (609.896382561, 297.599610528), (609.477036946, 297.932256792), (609.09841673, 298.284556341), (608.758710772, 298.653375077), (608.457302107, 299.038989264), (608.199448649, 299.444659231), (607.977533299, 299.866789834), (607.798609588, 300.308107488), (607.65975715, 300.767821241), (607.559616231, 301.244439392), (607.497905054, 301.739995674), (607.491630423, 302.075933546), (607.488445186, 302.246468159)],
                knots=[0, 0, 0, 0, 1.249558333, 2.447906163, 3.58867143, 4.682264114, 5.731748367, 6.739728761, 7.711906036, 8.659384707, 9.578321416, 10.481344598, 11.379544271, 12.277135726, 13.175418307, 14.097160112, 15.034047388, 16, 16, 16, 16], degree=3))
            add(Edge.make_bspline(
                [(607.488445186, 302.246468159), (607.49282555, 302.439538736), (607.501402184, 302.817565692), (607.587451154, 303.36980586), (607.719291893, 303.894921371), (607.910558542, 304.389343064), (608.156192894, 304.852853762), (608.453187669, 305.288766511), (608.804241719, 305.697593471), (609.213503754, 306.066686531), (609.657214714, 306.407618241), (610.14376173, 306.697651931), (610.658716537, 306.950861947), (611.210636666, 307.148827868), (611.791820619, 307.313252612), (612.408080529, 307.421140415), (613.056315391, 307.490701612), (613.499160755, 307.498567824), (613.725661373, 307.502591129)],
                knots=[0, 0, 0, 0, 1.01033566, 1.978209831, 2.919499157, 3.840961976, 4.746855014, 5.660740114, 6.597989116, 7.56120833, 8.541877795, 9.523498025, 10.522416858, 11.542172371, 12.589598349, 13.681636521, 14.814234488, 16, 16, 16, 16], degree=3))
            add(Edge.make_bspline(
                [(613.725661373, 307.502591129), (613.968269855, 307.498219033), (614.438190994, 307.489750488), (615.120391152, 307.426787419), (615.755073228, 307.319142339), (616.345153155, 307.171557286), (616.887304575, 306.977590666), (617.384933999, 306.742393454), (617.834452216, 306.46201507), (618.236961315, 306.139451502), (618.593086714, 305.773322851), (618.897467704, 305.361641069), (619.158701245, 304.909408454), (619.366684143, 304.412232174), (619.529870326, 303.873247147), (619.649133834, 303.29158184), (619.720420497, 302.667301443), (619.72779778, 302.236712324), (619.731593227, 302.015183827)],
                knots=[0, 0, 0, 0, 1.248314423, 2.417925914, 3.521398822, 4.558068205, 5.543720209, 6.479599284, 7.385061127, 8.263440163, 9.127722873, 10.00561236, 10.891325273, 11.808802823, 12.772251995, 13.784947978, 14.860405143, 16, 16, 16, 16], degree=3))
        make_face()
    # profile 8 of 9: a face of its own
    with BuildSketch(Plane.XY):
        Polygon((633.989153194, 307.263846012), (633.989153194, 305.115139958), (628.020525264, 305.115139958), (628.020525264, 300.340237614), (633.034172725, 300.340237614), (633.034172725, 298.191531559), (628.020525264, 298.191531559), (628.020525264, 291.984158512), (634.944133663, 291.984158512), (634.944133663, 289.835452458), (622.290642452, 289.835452458), (622.290642452, 307.263846012), align=None)
    # profile 9 of 9: a face of its own
    with BuildSketch(Plane.XY):
        with BuildLine():
            Line((636.376604366, 289.835452458), (636.376604366, 307.263846012))
            Line((636.376604366, 307.263846012), (643.990335369, 307.263846012))
            add(Edge.make_bspline(
                [(643.990335369, 307.263846012), (644.237946498, 307.261150834), (644.721600887, 307.25588639), (645.426490561, 307.189203683), (646.094808274, 307.090496236), (646.724915796, 306.949857504), (647.317873659, 306.767252686), (647.871119087, 306.542146), (648.390701058, 306.282329135), (648.864494846, 305.976472528), (649.295093616, 305.642889252), (649.669668547, 305.279483604), (649.990389523, 304.894749072), (650.250664962, 304.483256345), (650.454275633, 304.048690948), (650.59581384, 303.587791605), (650.684089268, 303.104102537), (650.695510601, 302.772834174), (650.701311397, 302.604585835)],
                knots=[0, 0, 0, 0, 1.303269877, 2.545653735, 3.724355284, 4.8584284, 5.941462088, 6.987020715, 8.000098032, 8.995332524, 9.951400474, 10.863507538, 11.737823931, 12.582415999, 13.420128714, 14.25671499, 15.114600608, 16, 16, 16, 16], degree=3))
            add(Edge.make_bspline(
                [(650.701311397, 302.604585835), (650.698282873, 302.472674957), (650.692382063, 302.215658276), (650.651041486, 301.838684287), (650.580643818, 301.480313933), (650.481036683, 301.139915259), (650.347814833, 300.820175594), (650.191279492, 300.517863507), (650.009772227, 300.230553342), (649.788675198, 299.970497982), (649.548268341, 299.722842359), (649.274558803, 299.497116911), (648.974487035, 299.288655528), (648.642526299, 299.104010513), (648.287619671, 298.928055749), (647.899038177, 298.784921972), (647.486819978, 298.644749395), (647.19793098, 298.577036306), (647.049257183, 298.54218845)],
                knots=[0, 0, 0, 0, 1.057156483, 2.059775939, 3.035078039, 3.981068617, 4.897189472, 5.80650904, 6.70770952, 7.613691521, 8.536886357, 9.470937334, 10.45233069, 11.461024139, 12.51295332, 13.623444893, 14.776929983, 16, 16, 16, 16], degree=3))
            add(Edge.make_bspline(
                [(647.049257183, 298.54218845), (647.19164695, 298.499279419), (647.467865022, 298.416041346), (647.856360945, 298.265600017), (648.211652989, 298.111536308), (648.524185739, 297.936781388), (648.807636894, 297.762122504), (649.047122259, 297.564301324), (649.255235567, 297.361673563), (649.425188343, 297.135464734), (649.570253643, 296.882344437), (649.694827156, 296.586596707), (649.815179167, 296.247423665), (649.917667348, 295.859098311), (650.004750555, 295.423699276), (650.088222437, 294.944027189), (650.153853601, 294.416024546), (650.187587341, 294.048412906), (650.2051692, 293.856815525)],
                knots=[0, 0, 0, 0, 1.149282524, 2.229462177, 3.219229774, 4.139917433, 4.995948464, 5.788695735, 6.536448429, 7.236319808, 7.968460079, 8.78645307, 9.713791991, 10.749194692, 11.887975363, 13.146018663, 14.512518948, 16, 16, 16, 16], degree=3))
            add(Edge.make_bspline(
                [(650.2051692, 293.856815525), (650.225980287, 293.627849833), (650.265975604, 293.187817268), (650.348933081, 292.554613589), (650.44386163, 291.974357025), (650.555874504, 291.44528724), (650.681301216, 290.967898855), (650.821280597, 290.540469593), (650.979920039, 290.165788217), (651.10484481, 289.941461656), (651.163880062, 289.835452458)],
                knots=[0, 0, 0, 0, 1.324580516, 2.545615266, 3.678710841, 4.711533017, 5.660403917, 6.521349952, 7.301239649, 8, 8, 8, 8], degree=3))
            Line((651.163880062, 289.835452458), (645.213904094, 289.835452458))
            add(Edge.make_bspline(
                [(645.213904094, 289.835452458), (645.12229736, 290.069847279), (644.935171241, 290.548648246), (644.7595281, 291.319414791), (644.64846922, 292.142514735), (644.635117598, 292.70994511), (644.628232479, 293.002555653)],
                knots=[0, 0, 0, 0, 0.930410518, 1.900560147, 2.917368081, 4, 4, 4, 4], degree=3))
            Line((644.628232479, 293.002555653), (644.605850124, 294.002300831))
            Line((644.605850124, 294.002300831), (644.579737377, 295.266903874))
            add(Edge.make_bspline(
                [(644.579737377, 295.266903874), (644.573694669, 295.477395004), (644.562357007, 295.872330118), (644.469348432, 296.426164013), (644.30178735, 296.894645884), (644.073222546, 297.287223005), (643.766741442, 297.590613479), (643.39104803, 297.804152917), (642.950456912, 297.93396284), (642.634664848, 297.946292392), (642.468335247, 297.952786442)],
                knots=[0, 0, 0, 0, 1.295300309, 2.430314163, 3.439929415, 4.342995669, 5.203512789, 6.060756153, 6.978588463, 8, 8, 8, 8], degree=3))
            Line((642.468335247, 297.952786442), (642.106487178, 297.952786442))
            Line((642.106487178, 297.952786442), (642.106487178, 289.835452458))
            Line((642.106487178, 289.835452458), (636.376604366, 289.835452458))
        make_face()
        with BuildLine():
            Line((642.106487178, 299.862747379), (642.617550945, 299.862747379))
            add(Edge.make_bspline(
                [(642.617550945, 299.862747379), (642.722054451, 299.865172716), (642.925280724, 299.869889229), (643.220054897, 299.898289891), (643.494111408, 299.951809873), (643.749840966, 300.021017819), (643.984372137, 300.114851792), (644.200147241, 300.225818296), (644.391160406, 300.362685327), (644.565327067, 300.516342321), (644.718148635, 300.691986294), (644.850351299, 300.889034217), (644.961199162, 301.106225057), (645.056078491, 301.342818683), (645.125883912, 301.600830857), (645.173262731, 301.879472914), (645.203404658, 302.177423605), (645.207875435, 302.383174491), (645.210173702, 302.488943669)],
                knots=[0, 0, 0, 0, 1.184986479, 2.304423995, 3.352332712, 4.347714965, 5.303263624, 6.211353909, 7.091434645, 7.960150225, 8.839440182, 9.723126897, 10.64371617, 11.599264829, 12.608232147, 13.667459739, 14.800924404, 16, 16, 16, 16], degree=3))
            add(Edge.make_bspline(
                [(645.210173702, 302.488943669), (645.207875435, 302.594712847), (645.203404658, 302.800463732), (645.173262731, 303.098414423), (645.125883912, 303.37705648), (645.056078491, 303.635068654), (644.961199162, 303.87166228), (644.850351299, 304.08885312), (644.718148635, 304.285901043), (644.565327067, 304.461545017), (644.391160406, 304.61520201), (644.200147241, 304.752069041), (643.984372137, 304.863035546), (643.749840966, 304.956869518), (643.494111408, 305.026077464), (643.220054897, 305.079597446), (642.925280724, 305.107998108), (642.722054451, 305.112714621), (642.617550945, 305.115139958)],
                knots=[0, 0, 0, 0, 1.199075596, 2.332540261, 3.391767853, 4.400735171, 5.35628383, 6.276873103, 7.160559818, 8.039849775, 8.908565355, 9.788646091, 10.696736376, 11.652285035, 12.647667288, 13.695576005, 14.815013521, 16, 16, 16, 16], degree=3))
            Line((642.617550945, 305.115139958), (642.106487178, 305.115139958))
            Line((642.106487178, 305.115139958), (642.106487178, 299.862747379))
        make_face(mode=Mode.SUBTRACT)
    extrude(amount=BOSS_EXTRUDE4_DEPTH)

    # Sketch18 → Cut-Extrude10 (cut, two sides: drawn at the far end of the back side and taken through both)
    with BuildSketch(Plane.XY.offset(-CUT_EXTRUDE10_DEPTH_BACK)):
        with Locations((335, 405)):
            Rectangle(SKETCH18_W, SKETCH18_H)
    extrude(amount=CUT_EXTRUDE10_DEPTH + CUT_EXTRUDE10_DEPTH_BACK, mode=Mode.SUBTRACT)

    # Sketch19 → Cut-Extrude11 (cut, two sides: drawn at the far end of the back side and taken through both)
    with BuildSketch(Plane(origin=(0, 0, -120), x_dir=(-1, 0, 0), z_dir=(0, 0, -1)).offset(-CUT_EXTRUDE11_DEPTH_BACK)):
        with Locations((-559, 140)):
            Rectangle(SKETCH19_W, SKETCH19_H)
        with Locations((-169, 140)):
            Rectangle(SKETCH19_W_2, SKETCH19_H)
    extrude(amount=CUT_EXTRUDE11_DEPTH + CUT_EXTRUDE11_DEPTH_BACK, mode=Mode.SUBTRACT)

    # Sketch20 → Cut-Extrude12 (cut, two sides: drawn at the far end of the back side and taken through both)
    with BuildSketch(Plane.XY.offset(-100).offset(-CUT_EXTRUDE12_DEPTH_BACK)):
        with Locations((393, 70)):
            Rectangle(SKETCH20_W, SKETCH20_H)
    extrude(amount=CUT_EXTRUDE12_DEPTH + CUT_EXTRUDE12_DEPTH_BACK, mode=Mode.SUBTRACT)


with BuildPart() as body_2:
    # Sketch11 → Boss-Extrude3 (new body)
    with BuildSketch(Plane.XY.offset(-100)):
        with Locations((255, 60)):
            Rectangle(SKETCH11_W, SKETCH11_H)
    extrude(amount=BOSS_EXTRUDE3_DEPTH)


with BuildPart() as body_3:
    # Sketch11 → Boss-Extrude3 2 (new body)
    with BuildSketch(Plane.XY.offset(-100)):
        with Locations((415, 60)):
            Rectangle(SKETCH11_W, SKETCH11_H)
    extrude(amount=BOSS_EXTRUDE3_2_DEPTH)


with BuildPart() as body_4:
    # Sketch11 → Boss-Extrude3 3 (new body)
    with BuildSketch(Plane.XY.offset(-100)):
        Polygon((25, 198.45686471), (325, 145.558770497), (325, 122.01775856), (345, 122.01775856), (345, 145.558770497), (645, 198.45686471), align=None)
    extrude(amount=BOSS_EXTRUDE3_3_DEPTH)

    # Sketch15 → Cut-Extrude7 (cut)
    with BuildSketch(Plane(origin=(345, 0, 0), x_dir=(0, 0, -1), z_dir=(1, 0, 0))):
        with Locations((35, 133.231921672)):
            Rectangle(SKETCH15_W, SKETCH15_H)
        with Locations((85, 130.506698154)):
            Rectangle(SKETCH15_W, SKETCH15_H_2)
    extrude(amount=-CUT_EXTRUDE7_DEPTH, mode=Mode.SUBTRACT)

    # Shell1
    shell1_openings = [body_4.faces().sort_by_distance(p)[0] for p in [
        (335, 198.45686471, -61),
    ]]
    offset(amount=SHELL1_T, openings=shell1_openings, kind=Kind.INTERSECTION)

    # Sketch16 → Cut-Extrude8 (cut)
    with BuildSketch(Plane.XZ.offset(-122.01775856)):
        with Locations((335, -60)):
            Rectangle(SKETCH16_W, SKETCH16_H)
    extrude(amount=-CUT_EXTRUDE8_DEPTH, mode=Mode.SUBTRACT)


solid = part.part
